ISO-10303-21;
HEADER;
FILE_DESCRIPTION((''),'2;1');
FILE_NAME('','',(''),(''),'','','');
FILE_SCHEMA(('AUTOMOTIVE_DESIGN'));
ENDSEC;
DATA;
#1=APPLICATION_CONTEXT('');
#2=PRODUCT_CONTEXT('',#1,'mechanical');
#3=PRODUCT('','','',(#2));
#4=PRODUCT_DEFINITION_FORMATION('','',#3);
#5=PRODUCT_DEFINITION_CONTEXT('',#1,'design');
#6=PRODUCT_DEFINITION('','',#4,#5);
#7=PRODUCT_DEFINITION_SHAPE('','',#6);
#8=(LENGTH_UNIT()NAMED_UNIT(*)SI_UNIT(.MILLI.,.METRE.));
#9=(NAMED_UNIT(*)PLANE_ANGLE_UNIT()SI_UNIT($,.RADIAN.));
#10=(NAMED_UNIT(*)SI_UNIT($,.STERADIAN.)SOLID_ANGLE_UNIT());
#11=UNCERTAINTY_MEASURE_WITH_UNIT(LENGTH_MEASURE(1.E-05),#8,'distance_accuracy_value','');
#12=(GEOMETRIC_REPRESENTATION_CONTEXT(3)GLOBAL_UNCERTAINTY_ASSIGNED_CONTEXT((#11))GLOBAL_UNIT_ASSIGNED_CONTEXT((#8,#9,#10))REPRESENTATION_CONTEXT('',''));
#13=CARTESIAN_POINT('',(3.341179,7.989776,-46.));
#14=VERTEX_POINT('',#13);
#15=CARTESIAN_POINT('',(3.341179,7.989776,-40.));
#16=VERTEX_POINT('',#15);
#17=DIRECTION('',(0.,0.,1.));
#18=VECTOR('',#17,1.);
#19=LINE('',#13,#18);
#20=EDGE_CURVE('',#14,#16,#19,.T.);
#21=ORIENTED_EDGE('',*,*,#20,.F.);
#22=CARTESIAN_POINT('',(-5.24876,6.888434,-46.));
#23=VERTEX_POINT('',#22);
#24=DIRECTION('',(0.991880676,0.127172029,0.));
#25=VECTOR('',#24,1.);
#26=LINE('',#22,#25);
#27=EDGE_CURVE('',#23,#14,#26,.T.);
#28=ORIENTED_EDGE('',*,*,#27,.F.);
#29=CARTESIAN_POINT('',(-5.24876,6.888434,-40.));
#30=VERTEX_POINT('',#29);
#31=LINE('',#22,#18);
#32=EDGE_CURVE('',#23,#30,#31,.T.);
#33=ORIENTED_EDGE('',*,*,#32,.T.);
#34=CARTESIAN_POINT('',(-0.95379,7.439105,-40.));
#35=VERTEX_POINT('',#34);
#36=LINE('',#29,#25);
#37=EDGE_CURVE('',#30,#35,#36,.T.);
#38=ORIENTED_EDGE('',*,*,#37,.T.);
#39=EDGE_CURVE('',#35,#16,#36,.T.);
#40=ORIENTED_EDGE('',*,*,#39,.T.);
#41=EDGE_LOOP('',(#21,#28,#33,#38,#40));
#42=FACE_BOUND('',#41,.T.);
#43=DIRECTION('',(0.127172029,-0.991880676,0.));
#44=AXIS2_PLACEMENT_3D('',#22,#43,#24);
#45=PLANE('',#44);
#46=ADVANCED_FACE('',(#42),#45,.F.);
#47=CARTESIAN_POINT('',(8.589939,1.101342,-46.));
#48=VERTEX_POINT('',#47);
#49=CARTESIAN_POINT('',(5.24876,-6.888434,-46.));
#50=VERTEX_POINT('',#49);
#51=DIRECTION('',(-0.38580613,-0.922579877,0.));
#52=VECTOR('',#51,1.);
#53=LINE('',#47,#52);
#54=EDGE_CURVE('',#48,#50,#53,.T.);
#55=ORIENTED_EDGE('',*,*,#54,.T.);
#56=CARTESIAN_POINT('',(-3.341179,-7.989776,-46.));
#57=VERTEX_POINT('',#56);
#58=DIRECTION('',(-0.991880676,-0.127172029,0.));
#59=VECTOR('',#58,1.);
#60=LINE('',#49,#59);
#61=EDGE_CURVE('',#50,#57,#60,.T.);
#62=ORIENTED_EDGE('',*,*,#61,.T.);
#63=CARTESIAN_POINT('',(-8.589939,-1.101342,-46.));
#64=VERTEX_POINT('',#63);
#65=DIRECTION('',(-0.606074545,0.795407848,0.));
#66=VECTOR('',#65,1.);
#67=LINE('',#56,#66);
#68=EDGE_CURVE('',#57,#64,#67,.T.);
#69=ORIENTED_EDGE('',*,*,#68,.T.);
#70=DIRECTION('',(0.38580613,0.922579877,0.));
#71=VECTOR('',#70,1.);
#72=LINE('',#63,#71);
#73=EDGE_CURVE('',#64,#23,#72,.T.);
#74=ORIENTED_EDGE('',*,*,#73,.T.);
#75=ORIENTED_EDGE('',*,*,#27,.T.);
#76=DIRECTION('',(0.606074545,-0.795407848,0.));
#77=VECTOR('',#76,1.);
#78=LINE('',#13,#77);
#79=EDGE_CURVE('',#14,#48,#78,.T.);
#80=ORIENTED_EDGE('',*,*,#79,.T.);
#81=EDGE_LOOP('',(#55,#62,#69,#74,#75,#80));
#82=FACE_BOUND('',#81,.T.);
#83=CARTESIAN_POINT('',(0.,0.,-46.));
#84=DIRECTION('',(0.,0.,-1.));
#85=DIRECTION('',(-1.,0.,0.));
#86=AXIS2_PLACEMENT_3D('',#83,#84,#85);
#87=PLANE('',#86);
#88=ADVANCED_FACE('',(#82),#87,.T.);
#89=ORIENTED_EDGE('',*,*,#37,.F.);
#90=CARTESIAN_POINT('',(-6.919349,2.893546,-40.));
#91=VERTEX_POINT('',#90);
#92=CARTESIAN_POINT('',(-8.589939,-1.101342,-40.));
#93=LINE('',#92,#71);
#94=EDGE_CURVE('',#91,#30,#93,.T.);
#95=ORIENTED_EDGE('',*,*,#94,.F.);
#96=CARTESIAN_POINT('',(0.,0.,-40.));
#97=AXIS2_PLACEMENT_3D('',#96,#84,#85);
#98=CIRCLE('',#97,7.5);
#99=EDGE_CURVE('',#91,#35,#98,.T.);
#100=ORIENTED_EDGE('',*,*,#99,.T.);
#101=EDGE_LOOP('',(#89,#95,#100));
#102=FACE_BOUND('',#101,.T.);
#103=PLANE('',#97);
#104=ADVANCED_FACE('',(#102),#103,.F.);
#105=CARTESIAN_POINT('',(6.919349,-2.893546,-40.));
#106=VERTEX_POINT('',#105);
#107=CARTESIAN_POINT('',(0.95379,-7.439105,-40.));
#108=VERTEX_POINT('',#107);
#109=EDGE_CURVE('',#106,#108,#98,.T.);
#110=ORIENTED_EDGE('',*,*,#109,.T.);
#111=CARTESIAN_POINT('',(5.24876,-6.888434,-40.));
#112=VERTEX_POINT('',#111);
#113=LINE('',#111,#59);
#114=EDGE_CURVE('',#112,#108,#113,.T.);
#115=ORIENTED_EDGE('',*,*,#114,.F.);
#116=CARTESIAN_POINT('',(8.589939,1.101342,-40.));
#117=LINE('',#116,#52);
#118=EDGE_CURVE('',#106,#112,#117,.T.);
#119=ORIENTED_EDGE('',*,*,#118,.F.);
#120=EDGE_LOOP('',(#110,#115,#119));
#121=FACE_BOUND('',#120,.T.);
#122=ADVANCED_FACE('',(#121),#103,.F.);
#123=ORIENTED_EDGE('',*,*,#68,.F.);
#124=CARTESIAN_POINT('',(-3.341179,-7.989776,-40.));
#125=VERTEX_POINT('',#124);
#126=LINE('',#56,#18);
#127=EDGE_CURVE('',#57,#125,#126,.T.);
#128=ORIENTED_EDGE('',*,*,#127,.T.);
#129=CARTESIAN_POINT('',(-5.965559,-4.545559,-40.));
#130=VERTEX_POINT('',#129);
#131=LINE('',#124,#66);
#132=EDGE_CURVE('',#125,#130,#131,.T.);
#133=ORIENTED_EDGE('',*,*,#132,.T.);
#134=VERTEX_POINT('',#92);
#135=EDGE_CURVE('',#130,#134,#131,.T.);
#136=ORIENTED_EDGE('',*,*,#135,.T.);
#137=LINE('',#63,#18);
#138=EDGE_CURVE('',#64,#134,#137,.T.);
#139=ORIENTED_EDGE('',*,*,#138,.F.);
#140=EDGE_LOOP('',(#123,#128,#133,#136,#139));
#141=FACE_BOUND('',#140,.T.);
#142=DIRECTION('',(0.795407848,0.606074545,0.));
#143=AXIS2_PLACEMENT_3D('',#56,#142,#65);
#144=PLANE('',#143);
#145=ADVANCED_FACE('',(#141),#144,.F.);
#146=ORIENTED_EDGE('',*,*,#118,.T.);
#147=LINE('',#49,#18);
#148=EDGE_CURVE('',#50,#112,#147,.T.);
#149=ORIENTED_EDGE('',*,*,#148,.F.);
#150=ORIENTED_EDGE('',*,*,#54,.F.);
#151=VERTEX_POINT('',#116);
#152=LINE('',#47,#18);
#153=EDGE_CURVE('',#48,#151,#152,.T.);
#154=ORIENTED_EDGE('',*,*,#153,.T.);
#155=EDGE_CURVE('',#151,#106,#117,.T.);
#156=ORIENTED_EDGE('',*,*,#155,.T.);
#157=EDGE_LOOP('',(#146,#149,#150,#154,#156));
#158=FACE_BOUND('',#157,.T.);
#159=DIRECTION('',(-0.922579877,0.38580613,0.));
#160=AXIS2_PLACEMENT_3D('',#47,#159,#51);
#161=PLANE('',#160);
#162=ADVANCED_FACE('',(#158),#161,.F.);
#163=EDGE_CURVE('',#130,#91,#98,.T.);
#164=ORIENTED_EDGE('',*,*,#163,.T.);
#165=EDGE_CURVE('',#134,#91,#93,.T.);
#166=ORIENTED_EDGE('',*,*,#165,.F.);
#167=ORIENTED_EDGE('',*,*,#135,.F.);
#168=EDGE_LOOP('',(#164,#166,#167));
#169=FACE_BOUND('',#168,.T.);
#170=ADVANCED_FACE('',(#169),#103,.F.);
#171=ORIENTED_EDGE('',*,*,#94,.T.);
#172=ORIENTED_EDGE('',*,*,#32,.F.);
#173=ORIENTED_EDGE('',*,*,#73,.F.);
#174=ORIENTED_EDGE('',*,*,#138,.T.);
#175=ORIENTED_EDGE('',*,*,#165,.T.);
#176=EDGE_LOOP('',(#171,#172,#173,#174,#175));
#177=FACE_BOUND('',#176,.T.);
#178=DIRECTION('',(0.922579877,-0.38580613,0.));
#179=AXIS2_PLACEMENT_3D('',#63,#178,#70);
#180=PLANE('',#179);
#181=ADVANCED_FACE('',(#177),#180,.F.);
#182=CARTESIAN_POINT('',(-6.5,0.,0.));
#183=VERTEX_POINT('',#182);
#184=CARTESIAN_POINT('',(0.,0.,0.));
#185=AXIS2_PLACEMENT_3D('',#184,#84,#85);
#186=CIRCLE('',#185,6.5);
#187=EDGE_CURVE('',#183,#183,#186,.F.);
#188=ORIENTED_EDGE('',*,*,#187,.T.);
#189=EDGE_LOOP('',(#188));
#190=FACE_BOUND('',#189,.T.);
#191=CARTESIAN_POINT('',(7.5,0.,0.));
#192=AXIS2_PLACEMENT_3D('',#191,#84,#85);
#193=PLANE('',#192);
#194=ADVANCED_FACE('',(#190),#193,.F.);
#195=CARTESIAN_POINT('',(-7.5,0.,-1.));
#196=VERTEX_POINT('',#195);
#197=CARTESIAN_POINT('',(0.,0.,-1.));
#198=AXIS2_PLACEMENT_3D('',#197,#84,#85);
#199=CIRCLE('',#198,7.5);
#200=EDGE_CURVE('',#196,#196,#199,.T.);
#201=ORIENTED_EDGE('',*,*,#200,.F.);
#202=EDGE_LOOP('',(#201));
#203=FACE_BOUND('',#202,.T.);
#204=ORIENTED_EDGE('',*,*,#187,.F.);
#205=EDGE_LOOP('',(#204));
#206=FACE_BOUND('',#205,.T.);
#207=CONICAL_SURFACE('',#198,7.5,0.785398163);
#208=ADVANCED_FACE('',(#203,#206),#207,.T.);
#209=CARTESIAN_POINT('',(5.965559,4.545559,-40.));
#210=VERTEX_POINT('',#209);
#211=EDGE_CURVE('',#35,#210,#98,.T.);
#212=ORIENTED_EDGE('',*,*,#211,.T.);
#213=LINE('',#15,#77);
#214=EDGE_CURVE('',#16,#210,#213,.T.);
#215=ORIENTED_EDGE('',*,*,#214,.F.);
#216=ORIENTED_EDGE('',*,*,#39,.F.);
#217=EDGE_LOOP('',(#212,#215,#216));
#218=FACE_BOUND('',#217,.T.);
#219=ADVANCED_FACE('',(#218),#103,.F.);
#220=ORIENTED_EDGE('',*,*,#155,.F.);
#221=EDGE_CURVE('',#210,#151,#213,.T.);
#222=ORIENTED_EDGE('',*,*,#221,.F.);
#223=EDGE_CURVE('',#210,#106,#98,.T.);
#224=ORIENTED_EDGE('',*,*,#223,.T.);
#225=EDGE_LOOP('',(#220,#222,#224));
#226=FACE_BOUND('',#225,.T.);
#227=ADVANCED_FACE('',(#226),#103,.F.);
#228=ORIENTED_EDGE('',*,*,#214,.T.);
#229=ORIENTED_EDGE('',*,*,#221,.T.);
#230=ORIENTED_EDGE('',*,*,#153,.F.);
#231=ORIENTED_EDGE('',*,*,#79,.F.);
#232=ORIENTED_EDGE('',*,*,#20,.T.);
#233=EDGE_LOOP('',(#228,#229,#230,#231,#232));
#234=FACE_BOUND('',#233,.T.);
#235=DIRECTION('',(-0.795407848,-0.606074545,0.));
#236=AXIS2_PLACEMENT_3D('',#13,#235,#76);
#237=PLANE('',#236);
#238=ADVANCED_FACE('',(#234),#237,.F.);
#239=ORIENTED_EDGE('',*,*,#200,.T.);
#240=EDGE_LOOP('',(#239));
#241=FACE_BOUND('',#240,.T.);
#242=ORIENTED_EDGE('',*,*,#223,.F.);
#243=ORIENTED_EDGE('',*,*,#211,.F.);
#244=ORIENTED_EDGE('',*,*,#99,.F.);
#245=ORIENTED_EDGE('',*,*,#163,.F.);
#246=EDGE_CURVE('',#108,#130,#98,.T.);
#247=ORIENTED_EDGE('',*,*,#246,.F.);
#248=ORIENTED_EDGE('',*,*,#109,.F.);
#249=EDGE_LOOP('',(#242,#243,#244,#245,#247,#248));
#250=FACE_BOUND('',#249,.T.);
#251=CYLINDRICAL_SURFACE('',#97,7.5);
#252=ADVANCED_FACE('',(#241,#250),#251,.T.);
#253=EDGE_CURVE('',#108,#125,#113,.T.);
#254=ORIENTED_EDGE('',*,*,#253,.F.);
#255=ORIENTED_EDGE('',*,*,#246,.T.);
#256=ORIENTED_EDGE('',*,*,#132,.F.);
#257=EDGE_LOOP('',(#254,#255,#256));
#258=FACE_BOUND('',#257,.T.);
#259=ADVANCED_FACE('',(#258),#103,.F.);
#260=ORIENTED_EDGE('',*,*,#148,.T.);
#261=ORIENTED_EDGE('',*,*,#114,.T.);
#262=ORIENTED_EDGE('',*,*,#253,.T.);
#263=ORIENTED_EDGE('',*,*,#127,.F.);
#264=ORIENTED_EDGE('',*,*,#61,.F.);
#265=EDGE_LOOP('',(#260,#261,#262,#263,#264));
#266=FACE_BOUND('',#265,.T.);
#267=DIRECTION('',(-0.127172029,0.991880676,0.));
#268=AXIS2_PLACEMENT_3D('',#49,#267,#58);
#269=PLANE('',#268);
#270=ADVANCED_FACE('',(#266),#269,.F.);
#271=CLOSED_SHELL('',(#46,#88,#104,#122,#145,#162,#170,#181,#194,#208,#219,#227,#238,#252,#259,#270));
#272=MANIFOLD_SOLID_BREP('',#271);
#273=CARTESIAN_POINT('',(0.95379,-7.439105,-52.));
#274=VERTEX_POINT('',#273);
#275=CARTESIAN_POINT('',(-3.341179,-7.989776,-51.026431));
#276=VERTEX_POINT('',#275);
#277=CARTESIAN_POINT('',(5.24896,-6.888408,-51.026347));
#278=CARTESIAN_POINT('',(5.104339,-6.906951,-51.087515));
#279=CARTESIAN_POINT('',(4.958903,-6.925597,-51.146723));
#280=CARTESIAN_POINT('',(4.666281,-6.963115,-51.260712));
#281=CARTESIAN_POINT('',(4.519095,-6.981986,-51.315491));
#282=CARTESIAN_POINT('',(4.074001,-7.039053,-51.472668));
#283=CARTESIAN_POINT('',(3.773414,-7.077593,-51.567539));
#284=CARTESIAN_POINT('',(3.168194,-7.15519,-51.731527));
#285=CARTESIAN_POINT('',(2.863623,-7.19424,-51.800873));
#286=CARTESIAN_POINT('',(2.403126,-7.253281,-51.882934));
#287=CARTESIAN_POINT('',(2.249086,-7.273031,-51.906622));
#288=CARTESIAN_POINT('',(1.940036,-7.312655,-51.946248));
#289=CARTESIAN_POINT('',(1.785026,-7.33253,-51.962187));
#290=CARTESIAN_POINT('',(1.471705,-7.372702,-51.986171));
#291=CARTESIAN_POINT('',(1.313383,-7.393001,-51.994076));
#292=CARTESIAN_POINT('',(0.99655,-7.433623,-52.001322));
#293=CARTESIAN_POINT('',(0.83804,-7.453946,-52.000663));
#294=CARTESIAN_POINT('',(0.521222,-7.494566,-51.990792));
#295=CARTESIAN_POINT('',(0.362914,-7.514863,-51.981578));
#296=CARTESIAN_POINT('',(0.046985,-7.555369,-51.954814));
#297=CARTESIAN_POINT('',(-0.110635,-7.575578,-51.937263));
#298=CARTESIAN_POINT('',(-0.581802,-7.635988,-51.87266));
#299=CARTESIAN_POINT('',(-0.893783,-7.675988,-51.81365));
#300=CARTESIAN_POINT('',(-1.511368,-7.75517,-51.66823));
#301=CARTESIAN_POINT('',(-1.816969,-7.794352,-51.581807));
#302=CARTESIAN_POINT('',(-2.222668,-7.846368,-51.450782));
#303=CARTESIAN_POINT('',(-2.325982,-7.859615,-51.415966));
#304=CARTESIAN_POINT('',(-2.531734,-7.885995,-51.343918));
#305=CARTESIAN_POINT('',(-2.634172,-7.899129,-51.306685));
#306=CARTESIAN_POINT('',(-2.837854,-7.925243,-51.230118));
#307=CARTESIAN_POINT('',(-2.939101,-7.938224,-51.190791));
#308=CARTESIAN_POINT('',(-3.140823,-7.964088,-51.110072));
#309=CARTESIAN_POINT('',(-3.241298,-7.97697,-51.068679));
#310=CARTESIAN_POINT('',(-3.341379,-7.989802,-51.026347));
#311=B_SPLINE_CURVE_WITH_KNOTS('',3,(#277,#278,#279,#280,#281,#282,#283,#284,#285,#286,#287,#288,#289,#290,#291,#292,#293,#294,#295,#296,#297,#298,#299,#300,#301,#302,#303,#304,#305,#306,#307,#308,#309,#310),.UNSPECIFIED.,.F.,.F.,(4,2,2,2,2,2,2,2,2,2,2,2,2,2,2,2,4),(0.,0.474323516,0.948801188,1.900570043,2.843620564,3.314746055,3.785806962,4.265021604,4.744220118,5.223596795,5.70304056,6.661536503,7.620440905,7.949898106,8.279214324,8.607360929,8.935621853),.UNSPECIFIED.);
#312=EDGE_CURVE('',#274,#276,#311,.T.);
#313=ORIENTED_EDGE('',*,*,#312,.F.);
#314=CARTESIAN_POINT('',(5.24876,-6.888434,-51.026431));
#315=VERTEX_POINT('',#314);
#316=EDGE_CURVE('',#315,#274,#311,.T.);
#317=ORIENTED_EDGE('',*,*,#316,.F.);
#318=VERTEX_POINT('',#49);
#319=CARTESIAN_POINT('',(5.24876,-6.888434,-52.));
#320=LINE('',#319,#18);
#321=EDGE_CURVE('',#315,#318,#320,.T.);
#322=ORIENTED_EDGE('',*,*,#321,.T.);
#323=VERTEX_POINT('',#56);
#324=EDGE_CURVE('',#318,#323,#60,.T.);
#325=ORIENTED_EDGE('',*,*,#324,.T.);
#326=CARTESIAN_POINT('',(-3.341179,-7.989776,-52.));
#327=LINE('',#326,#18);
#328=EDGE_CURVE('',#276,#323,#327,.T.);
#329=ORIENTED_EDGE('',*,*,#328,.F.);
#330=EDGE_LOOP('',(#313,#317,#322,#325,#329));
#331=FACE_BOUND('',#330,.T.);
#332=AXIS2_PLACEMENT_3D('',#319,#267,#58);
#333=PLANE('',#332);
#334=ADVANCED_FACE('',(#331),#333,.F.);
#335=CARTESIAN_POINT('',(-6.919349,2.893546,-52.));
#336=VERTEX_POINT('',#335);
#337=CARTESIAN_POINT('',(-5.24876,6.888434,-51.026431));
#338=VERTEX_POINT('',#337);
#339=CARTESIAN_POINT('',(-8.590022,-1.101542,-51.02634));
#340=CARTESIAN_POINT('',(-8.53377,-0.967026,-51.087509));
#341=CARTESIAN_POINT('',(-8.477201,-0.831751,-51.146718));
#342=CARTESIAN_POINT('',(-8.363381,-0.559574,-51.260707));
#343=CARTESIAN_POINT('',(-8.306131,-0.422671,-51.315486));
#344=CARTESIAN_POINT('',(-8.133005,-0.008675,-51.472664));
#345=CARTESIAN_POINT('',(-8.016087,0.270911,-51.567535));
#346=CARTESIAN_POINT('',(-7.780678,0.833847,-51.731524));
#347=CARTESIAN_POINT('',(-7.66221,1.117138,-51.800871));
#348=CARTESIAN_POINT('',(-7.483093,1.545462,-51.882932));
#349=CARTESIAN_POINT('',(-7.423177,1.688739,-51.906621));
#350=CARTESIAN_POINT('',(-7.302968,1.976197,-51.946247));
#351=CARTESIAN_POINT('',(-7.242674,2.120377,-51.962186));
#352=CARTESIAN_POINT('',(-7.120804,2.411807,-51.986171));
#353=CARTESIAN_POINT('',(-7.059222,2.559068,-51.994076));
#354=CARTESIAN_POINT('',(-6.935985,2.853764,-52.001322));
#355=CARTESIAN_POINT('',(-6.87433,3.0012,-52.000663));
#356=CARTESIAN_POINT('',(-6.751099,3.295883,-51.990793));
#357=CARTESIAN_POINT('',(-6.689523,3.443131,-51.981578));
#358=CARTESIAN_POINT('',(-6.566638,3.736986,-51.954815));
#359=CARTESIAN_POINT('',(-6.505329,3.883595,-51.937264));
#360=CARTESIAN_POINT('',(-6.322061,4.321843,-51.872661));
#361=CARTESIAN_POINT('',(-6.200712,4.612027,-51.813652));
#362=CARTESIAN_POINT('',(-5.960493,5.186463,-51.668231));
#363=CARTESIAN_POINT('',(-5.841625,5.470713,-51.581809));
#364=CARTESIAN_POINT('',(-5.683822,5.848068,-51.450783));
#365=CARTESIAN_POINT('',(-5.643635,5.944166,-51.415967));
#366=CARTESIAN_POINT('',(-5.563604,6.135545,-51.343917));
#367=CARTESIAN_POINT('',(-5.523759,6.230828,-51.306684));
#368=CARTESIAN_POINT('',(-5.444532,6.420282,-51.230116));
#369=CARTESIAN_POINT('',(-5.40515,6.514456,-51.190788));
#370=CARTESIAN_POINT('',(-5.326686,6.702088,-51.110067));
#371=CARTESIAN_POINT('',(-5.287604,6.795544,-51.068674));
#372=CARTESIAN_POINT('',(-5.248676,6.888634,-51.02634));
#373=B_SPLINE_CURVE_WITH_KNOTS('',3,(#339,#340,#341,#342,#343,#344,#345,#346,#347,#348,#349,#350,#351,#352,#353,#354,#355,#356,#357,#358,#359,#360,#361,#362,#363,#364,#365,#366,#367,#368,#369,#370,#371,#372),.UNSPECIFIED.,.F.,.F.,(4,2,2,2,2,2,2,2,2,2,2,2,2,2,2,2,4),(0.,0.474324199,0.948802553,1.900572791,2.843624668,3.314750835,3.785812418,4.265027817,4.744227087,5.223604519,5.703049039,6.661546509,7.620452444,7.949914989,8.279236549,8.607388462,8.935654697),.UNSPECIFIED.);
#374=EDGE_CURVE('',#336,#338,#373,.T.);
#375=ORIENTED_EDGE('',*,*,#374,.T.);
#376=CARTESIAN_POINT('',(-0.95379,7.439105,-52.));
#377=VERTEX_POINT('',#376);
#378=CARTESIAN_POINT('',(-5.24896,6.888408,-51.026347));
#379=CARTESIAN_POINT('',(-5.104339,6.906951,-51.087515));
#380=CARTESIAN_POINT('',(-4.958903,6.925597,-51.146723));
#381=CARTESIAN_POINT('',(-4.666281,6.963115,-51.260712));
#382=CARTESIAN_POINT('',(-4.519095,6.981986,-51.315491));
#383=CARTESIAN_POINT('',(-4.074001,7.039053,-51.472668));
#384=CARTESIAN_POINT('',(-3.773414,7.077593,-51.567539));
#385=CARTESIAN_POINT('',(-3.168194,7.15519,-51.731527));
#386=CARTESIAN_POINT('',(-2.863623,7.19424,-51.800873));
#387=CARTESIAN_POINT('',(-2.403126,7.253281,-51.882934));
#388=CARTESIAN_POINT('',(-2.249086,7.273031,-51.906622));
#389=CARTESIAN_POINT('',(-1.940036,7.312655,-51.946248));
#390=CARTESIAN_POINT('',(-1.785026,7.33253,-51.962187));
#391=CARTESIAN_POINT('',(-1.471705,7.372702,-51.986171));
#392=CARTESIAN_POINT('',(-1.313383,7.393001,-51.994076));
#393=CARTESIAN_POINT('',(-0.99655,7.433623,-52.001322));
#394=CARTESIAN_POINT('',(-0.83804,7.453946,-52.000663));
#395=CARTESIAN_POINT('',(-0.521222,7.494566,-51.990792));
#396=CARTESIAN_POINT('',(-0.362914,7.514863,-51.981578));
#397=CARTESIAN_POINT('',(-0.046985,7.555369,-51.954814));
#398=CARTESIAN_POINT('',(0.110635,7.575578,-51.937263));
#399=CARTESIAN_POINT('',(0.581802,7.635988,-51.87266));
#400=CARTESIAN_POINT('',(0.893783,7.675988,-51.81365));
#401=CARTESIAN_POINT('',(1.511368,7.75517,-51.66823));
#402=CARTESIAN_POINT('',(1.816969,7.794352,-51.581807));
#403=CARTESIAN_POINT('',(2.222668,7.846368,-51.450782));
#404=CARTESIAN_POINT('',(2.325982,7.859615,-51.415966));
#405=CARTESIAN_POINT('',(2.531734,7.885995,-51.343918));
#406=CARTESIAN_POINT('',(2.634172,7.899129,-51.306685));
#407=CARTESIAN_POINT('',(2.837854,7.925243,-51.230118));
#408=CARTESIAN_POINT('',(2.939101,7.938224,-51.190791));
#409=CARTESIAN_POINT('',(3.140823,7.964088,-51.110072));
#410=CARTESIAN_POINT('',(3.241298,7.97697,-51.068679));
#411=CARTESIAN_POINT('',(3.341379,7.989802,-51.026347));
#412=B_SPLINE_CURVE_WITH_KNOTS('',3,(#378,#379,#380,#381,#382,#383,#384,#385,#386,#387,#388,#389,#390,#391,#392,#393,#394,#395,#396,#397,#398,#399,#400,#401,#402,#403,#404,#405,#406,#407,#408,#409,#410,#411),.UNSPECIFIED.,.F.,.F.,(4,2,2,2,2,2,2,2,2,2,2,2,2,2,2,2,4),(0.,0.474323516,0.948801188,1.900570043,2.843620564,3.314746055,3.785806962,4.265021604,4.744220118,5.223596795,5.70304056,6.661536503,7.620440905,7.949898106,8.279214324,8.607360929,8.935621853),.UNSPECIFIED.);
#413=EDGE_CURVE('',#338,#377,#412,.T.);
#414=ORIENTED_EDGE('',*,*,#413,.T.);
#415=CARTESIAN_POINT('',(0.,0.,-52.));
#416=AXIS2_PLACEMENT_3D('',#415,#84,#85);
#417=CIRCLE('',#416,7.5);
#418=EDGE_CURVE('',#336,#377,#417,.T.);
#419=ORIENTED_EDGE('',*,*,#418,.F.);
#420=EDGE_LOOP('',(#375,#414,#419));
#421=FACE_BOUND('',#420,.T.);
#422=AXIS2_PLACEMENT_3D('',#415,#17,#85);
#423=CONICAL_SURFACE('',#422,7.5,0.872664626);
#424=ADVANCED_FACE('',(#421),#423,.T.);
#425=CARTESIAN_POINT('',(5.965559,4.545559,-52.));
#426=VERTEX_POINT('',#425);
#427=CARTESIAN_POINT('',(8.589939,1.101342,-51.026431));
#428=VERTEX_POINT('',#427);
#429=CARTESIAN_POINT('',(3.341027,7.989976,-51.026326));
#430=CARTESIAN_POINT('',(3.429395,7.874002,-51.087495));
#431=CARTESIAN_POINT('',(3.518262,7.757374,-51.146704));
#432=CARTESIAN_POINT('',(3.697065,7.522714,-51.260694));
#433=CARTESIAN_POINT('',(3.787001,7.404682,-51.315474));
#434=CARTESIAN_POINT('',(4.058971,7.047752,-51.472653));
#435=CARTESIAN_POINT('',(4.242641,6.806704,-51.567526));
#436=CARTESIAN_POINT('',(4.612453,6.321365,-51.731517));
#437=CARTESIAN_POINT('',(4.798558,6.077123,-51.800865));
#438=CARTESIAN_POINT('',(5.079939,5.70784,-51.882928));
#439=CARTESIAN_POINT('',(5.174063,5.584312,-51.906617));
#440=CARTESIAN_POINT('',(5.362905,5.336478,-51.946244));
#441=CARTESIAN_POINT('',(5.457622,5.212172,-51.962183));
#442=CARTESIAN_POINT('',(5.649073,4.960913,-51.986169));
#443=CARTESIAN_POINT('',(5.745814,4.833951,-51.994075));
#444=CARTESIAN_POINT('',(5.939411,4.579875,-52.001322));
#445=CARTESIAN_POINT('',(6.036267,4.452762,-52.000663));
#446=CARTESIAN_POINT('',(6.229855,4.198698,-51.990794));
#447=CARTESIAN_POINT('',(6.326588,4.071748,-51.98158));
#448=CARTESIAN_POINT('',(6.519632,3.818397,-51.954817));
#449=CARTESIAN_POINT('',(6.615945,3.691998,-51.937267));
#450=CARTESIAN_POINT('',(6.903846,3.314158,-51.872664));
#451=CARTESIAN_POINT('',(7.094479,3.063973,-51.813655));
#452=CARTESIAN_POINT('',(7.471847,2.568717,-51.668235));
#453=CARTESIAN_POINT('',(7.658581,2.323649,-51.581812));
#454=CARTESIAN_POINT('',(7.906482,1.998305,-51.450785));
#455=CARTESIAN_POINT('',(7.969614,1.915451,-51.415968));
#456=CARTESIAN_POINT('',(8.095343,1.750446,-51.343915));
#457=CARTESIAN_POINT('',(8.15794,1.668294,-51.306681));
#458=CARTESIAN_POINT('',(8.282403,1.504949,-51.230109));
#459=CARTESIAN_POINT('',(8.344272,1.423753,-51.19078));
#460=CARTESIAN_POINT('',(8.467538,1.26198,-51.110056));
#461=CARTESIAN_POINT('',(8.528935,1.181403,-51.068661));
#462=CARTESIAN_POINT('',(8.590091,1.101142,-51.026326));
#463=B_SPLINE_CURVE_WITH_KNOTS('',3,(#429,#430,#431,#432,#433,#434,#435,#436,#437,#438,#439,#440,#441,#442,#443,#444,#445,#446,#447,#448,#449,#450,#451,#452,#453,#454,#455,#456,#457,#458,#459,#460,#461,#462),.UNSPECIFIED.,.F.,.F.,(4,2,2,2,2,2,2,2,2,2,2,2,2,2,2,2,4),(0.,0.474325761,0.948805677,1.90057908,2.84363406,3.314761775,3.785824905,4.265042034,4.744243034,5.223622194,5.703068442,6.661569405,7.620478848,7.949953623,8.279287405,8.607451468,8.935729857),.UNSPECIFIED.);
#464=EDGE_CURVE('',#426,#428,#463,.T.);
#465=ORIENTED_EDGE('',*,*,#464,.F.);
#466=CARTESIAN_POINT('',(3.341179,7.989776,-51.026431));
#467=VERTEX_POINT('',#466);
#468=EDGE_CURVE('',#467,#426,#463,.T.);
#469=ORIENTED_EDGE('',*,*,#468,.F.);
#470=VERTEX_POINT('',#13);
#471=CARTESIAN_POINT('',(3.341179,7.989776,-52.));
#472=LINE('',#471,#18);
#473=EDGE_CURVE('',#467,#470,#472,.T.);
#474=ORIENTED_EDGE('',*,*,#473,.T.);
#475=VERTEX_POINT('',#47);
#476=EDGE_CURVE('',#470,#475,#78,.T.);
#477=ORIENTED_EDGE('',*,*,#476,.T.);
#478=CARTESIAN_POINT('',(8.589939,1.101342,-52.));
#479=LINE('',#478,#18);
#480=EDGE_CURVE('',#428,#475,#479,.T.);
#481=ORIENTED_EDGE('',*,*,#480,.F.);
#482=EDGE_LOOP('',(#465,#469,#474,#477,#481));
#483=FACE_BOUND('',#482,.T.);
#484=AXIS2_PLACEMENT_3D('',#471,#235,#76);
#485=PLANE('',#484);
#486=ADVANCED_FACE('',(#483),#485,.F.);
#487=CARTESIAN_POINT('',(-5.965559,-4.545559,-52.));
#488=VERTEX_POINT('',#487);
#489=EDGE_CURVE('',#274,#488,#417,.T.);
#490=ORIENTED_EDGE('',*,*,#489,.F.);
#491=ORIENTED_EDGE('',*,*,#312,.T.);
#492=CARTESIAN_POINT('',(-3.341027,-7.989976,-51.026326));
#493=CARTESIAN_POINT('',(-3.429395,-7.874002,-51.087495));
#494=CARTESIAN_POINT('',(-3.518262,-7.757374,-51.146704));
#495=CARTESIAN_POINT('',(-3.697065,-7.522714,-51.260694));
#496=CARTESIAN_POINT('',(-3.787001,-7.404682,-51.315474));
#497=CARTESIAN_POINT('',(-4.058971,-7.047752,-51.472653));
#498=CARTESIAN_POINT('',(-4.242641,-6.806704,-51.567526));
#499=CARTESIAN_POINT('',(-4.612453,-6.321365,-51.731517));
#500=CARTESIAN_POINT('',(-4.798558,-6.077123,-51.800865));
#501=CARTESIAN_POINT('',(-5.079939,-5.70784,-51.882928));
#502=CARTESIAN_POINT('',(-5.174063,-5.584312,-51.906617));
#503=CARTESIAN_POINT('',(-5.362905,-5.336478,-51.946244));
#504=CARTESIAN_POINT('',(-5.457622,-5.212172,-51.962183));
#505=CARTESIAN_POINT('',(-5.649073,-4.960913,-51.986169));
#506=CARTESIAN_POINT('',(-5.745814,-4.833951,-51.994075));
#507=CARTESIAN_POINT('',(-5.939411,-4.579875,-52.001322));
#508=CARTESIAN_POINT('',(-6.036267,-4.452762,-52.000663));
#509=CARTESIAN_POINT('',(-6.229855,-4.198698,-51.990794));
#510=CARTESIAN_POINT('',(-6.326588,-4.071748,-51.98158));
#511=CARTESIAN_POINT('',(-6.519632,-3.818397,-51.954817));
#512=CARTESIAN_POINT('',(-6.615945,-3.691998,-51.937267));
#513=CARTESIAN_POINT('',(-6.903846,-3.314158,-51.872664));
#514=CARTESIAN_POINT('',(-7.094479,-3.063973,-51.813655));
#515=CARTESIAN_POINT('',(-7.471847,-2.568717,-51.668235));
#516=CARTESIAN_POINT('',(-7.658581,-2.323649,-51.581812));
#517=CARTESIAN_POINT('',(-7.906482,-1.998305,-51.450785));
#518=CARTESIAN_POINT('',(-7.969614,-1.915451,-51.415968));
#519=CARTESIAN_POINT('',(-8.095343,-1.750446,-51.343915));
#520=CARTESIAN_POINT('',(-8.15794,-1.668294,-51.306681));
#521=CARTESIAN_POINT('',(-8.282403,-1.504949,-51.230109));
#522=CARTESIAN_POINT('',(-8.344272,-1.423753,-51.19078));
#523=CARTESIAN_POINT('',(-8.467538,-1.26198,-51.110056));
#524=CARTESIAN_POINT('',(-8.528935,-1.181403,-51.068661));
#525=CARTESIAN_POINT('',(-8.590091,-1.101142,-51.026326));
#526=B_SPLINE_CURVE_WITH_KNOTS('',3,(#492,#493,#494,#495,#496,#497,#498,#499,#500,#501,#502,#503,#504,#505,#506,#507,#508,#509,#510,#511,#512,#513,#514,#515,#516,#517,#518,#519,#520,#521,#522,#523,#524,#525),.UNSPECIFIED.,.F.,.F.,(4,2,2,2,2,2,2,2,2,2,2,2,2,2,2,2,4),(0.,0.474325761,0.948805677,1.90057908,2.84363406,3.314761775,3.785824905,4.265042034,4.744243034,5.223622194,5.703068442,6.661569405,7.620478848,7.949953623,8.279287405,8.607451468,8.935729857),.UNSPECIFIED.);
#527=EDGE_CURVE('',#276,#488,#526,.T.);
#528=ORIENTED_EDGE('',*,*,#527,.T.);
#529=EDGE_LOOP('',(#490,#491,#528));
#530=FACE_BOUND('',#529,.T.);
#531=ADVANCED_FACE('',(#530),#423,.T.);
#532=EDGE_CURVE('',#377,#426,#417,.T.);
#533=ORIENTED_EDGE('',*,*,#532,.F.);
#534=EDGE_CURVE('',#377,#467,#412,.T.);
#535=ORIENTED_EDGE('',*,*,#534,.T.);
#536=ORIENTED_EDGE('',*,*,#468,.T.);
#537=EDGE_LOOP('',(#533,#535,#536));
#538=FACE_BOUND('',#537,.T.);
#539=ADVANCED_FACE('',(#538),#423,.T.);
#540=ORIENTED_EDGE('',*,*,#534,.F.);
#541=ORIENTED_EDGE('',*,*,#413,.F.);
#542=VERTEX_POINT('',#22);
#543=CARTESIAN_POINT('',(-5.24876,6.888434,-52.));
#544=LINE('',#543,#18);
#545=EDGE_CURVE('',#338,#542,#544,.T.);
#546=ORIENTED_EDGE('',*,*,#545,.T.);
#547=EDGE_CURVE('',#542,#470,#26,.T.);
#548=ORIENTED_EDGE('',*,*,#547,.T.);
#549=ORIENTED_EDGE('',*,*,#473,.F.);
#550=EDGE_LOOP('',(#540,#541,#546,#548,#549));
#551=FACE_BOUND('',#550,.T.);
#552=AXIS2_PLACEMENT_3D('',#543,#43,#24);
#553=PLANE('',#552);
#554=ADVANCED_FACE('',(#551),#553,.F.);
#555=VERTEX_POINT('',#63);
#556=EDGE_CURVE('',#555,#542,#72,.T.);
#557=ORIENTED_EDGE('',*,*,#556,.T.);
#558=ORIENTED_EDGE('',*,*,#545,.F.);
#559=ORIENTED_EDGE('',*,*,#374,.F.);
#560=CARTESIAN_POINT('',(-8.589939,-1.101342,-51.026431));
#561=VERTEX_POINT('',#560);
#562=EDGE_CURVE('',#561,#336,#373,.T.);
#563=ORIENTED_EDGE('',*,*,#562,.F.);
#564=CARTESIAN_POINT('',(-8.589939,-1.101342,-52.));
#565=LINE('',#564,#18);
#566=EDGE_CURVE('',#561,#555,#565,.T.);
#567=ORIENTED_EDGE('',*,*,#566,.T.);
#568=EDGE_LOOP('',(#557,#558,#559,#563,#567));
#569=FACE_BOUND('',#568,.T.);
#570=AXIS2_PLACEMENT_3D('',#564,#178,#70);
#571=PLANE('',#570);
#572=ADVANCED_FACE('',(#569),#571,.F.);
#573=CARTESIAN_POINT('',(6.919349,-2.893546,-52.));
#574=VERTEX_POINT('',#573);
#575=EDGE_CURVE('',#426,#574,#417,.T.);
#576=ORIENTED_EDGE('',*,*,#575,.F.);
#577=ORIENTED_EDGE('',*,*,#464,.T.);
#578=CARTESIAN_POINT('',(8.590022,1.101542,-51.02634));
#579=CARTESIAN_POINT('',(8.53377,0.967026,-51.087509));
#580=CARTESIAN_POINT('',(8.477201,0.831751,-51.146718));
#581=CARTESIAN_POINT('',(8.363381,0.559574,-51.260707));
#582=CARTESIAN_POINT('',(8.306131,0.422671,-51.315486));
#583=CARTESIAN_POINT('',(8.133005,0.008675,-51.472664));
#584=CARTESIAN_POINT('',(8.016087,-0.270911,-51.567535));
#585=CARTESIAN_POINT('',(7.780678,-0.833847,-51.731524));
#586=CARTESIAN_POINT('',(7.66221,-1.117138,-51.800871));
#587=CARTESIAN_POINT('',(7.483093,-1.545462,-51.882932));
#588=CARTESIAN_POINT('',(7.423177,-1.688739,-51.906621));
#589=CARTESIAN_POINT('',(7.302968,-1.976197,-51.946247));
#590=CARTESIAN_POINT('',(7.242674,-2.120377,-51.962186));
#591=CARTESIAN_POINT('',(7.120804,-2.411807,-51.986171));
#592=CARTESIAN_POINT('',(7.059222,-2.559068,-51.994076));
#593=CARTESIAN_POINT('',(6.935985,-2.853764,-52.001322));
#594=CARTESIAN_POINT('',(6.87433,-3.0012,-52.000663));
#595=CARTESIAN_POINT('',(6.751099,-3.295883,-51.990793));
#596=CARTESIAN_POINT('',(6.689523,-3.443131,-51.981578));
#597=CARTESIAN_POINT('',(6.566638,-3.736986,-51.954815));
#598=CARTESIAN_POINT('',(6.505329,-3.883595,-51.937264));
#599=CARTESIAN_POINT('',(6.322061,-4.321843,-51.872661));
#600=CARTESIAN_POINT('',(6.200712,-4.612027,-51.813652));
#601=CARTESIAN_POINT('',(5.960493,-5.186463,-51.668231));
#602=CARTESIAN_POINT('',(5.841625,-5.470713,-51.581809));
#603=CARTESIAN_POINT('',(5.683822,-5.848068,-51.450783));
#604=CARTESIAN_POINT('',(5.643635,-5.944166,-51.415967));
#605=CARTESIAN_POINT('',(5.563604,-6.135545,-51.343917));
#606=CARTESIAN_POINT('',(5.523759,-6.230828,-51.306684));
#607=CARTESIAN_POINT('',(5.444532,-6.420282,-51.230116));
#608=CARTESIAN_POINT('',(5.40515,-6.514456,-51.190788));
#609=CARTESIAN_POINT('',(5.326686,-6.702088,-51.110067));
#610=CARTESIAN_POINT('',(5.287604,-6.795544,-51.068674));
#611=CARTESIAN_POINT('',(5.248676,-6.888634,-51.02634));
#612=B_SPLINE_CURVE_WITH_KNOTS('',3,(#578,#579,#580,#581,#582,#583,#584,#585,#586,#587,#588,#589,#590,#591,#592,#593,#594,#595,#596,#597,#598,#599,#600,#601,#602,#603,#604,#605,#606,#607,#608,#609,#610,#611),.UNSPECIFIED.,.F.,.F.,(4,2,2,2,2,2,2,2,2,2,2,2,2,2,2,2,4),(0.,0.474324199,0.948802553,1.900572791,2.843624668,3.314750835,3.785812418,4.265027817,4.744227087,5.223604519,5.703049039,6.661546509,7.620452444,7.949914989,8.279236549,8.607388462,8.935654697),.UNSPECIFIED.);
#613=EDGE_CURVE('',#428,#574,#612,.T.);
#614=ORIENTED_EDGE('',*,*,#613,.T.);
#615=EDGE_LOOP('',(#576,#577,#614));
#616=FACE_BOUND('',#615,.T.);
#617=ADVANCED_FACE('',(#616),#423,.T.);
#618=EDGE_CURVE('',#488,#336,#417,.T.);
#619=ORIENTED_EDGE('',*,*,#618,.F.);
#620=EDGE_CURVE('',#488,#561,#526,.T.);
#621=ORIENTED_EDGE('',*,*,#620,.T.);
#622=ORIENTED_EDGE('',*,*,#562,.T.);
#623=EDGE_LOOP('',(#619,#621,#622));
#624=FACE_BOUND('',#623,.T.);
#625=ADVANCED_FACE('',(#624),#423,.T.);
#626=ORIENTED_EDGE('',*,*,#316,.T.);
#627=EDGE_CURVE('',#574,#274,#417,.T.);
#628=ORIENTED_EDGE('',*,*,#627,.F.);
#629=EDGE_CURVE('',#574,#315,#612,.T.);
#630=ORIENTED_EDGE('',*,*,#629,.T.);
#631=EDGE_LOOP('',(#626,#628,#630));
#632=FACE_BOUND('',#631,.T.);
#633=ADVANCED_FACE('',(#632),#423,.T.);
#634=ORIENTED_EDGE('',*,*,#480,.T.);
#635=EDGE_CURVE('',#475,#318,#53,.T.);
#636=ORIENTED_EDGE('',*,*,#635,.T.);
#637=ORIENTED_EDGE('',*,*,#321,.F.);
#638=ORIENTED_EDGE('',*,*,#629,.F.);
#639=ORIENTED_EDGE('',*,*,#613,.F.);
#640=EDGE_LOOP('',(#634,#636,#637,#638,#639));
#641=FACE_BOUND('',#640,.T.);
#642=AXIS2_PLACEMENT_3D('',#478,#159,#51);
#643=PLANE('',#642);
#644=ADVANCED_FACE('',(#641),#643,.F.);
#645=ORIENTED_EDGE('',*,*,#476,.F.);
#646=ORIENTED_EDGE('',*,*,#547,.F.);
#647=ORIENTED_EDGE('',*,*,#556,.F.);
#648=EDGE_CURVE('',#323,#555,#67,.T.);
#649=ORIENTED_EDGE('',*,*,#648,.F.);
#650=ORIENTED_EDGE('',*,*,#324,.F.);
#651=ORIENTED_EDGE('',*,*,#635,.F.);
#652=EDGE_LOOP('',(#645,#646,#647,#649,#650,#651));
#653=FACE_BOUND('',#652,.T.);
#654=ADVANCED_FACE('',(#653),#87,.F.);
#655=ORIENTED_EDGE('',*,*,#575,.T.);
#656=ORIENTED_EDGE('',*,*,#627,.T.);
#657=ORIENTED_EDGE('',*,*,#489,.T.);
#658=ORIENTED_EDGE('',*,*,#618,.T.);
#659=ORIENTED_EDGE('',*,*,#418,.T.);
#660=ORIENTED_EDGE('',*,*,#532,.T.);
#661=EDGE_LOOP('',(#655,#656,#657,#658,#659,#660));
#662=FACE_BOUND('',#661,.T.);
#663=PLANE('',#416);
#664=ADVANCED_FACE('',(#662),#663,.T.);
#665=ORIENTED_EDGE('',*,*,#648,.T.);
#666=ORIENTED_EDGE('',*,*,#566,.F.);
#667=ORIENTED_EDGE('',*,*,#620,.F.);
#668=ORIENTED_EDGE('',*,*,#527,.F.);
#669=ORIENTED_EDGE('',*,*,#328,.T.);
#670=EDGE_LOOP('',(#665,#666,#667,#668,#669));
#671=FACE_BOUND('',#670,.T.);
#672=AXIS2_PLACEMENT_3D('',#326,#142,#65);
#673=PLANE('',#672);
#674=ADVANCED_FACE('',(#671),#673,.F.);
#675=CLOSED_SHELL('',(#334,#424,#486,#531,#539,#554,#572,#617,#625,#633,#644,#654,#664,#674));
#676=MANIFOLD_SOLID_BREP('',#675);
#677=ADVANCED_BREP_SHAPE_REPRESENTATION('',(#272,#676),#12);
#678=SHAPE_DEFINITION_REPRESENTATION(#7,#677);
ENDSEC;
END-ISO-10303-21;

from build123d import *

# Parameters (mm, degrees)
SKETCH1_W           = 7.5
SKETCH1_H           = 40
BOSS_EXTRUDE1_DEPTH = 6
BOSS_EXTRUDE2_DEPTH = 6
SKETCH4_OUTSIDE_W   = 35.356
SKETCH4_OUTSIDE_H   = 34.156
SKETCH4_OUTSIDE_R   = 7.5
CUT_EXTRUDE1_DEPTH  = 2
CUT_EXTRUDE1_DRAFT  = -50
CHAMFER1_SIZE       = 1


with BuildPart() as part:
    # Sketch1 → Revolve1 (revolve)
    with BuildSketch(Plane(origin=(0, 0, 0), x_dir=(1, 0, 0), z_dir=(0, 1, 0))):
        with Locations((3.75, 20)):
            Rectangle(SKETCH1_W, SKETCH1_H)
    revolve(axis=Axis((0, 0, -40), (0, 0, 1)))

    # Sketch2 → Boss-Extrude1 (add)
    with BuildSketch(Plane(origin=(0, 0, -40), x_dir=(-1, 0, 0), z_dir=(0, 0, -1))):
        Polygon((-3.341179099, 7.989776106), (-8.589938628, 1.101342075), (-5.248759529, -6.888434031), (3.341179099, -7.989776106), (8.589938628, -1.101342075), (5.248759529, 6.888434031), align=None)
    extrude(amount=BOSS_EXTRUDE1_DEPTH)

    # Chamfer1
    chamfer1_edges = [part.edges().sort_by_distance(p)[0] for p in [
        (-7.5, 0, 0),
    ]]
    chamfer(chamfer1_edges, length=CHAMFER1_SIZE)


with BuildPart() as body_2:
    # Sketch3 → Boss-Extrude2 (new body)
    with BuildSketch(Plane(origin=(0, 0, -46), x_dir=(-1, 0, 0), z_dir=(0, 0, -1))):
        Polygon((5.248759529, 6.888434031), (-3.341179099, 7.989776106), (-8.589938628, 1.101342075), (-5.248759529, -6.888434031), (3.341179099, -7.989776106), (8.589938628, -1.101342075), align=None)
    extrude(amount=BOSS_EXTRUDE2_DEPTH)


with BuildPart() as cut_extrude1_tool:
    # Sketch4 outside → Cut-Extrude1 (with draft: the straight prism first)
    with BuildSketch(Plane(origin=(0, 0, -52), x_dir=(-1, 0, 0), z_dir=(0, 0, -1))):
        Rectangle(SKETCH4_OUTSIDE_W, SKETCH4_OUTSIDE_H)
        Circle(SKETCH4_OUTSIDE_R, mode=Mode.SUBTRACT)
    extrude(amount=-CUT_EXTRUDE1_DEPTH)
    # Cut-Extrude1: the draft: its side faces are tilted about the plane it starts from
    cut_extrude1_sides = [cut_extrude1_tool.faces().sort_by_distance(p)[0] for p in [
        (0, -17.078, -51),
        (-17.678, 0, -51),
        (0, 17.078, -51),
        (17.678, 0, -51),
        (7.5, 0, -51),
    ]]
    draft(cut_extrude1_sides, Plane(origin=(0, 0, -52), x_dir=(-1, 0, 0), z_dir=(0, 0, -1)), CUT_EXTRUDE1_DRAFT)


with BuildPart() as body_2_1:
    add(body_2.part)

    # Cut-Extrude1: cut by cut_extrude1_tool
    add(cut_extrude1_tool.part, mode=Mode.SUBTRACT)


solid = Compound([part.part, body_2_1.part])
